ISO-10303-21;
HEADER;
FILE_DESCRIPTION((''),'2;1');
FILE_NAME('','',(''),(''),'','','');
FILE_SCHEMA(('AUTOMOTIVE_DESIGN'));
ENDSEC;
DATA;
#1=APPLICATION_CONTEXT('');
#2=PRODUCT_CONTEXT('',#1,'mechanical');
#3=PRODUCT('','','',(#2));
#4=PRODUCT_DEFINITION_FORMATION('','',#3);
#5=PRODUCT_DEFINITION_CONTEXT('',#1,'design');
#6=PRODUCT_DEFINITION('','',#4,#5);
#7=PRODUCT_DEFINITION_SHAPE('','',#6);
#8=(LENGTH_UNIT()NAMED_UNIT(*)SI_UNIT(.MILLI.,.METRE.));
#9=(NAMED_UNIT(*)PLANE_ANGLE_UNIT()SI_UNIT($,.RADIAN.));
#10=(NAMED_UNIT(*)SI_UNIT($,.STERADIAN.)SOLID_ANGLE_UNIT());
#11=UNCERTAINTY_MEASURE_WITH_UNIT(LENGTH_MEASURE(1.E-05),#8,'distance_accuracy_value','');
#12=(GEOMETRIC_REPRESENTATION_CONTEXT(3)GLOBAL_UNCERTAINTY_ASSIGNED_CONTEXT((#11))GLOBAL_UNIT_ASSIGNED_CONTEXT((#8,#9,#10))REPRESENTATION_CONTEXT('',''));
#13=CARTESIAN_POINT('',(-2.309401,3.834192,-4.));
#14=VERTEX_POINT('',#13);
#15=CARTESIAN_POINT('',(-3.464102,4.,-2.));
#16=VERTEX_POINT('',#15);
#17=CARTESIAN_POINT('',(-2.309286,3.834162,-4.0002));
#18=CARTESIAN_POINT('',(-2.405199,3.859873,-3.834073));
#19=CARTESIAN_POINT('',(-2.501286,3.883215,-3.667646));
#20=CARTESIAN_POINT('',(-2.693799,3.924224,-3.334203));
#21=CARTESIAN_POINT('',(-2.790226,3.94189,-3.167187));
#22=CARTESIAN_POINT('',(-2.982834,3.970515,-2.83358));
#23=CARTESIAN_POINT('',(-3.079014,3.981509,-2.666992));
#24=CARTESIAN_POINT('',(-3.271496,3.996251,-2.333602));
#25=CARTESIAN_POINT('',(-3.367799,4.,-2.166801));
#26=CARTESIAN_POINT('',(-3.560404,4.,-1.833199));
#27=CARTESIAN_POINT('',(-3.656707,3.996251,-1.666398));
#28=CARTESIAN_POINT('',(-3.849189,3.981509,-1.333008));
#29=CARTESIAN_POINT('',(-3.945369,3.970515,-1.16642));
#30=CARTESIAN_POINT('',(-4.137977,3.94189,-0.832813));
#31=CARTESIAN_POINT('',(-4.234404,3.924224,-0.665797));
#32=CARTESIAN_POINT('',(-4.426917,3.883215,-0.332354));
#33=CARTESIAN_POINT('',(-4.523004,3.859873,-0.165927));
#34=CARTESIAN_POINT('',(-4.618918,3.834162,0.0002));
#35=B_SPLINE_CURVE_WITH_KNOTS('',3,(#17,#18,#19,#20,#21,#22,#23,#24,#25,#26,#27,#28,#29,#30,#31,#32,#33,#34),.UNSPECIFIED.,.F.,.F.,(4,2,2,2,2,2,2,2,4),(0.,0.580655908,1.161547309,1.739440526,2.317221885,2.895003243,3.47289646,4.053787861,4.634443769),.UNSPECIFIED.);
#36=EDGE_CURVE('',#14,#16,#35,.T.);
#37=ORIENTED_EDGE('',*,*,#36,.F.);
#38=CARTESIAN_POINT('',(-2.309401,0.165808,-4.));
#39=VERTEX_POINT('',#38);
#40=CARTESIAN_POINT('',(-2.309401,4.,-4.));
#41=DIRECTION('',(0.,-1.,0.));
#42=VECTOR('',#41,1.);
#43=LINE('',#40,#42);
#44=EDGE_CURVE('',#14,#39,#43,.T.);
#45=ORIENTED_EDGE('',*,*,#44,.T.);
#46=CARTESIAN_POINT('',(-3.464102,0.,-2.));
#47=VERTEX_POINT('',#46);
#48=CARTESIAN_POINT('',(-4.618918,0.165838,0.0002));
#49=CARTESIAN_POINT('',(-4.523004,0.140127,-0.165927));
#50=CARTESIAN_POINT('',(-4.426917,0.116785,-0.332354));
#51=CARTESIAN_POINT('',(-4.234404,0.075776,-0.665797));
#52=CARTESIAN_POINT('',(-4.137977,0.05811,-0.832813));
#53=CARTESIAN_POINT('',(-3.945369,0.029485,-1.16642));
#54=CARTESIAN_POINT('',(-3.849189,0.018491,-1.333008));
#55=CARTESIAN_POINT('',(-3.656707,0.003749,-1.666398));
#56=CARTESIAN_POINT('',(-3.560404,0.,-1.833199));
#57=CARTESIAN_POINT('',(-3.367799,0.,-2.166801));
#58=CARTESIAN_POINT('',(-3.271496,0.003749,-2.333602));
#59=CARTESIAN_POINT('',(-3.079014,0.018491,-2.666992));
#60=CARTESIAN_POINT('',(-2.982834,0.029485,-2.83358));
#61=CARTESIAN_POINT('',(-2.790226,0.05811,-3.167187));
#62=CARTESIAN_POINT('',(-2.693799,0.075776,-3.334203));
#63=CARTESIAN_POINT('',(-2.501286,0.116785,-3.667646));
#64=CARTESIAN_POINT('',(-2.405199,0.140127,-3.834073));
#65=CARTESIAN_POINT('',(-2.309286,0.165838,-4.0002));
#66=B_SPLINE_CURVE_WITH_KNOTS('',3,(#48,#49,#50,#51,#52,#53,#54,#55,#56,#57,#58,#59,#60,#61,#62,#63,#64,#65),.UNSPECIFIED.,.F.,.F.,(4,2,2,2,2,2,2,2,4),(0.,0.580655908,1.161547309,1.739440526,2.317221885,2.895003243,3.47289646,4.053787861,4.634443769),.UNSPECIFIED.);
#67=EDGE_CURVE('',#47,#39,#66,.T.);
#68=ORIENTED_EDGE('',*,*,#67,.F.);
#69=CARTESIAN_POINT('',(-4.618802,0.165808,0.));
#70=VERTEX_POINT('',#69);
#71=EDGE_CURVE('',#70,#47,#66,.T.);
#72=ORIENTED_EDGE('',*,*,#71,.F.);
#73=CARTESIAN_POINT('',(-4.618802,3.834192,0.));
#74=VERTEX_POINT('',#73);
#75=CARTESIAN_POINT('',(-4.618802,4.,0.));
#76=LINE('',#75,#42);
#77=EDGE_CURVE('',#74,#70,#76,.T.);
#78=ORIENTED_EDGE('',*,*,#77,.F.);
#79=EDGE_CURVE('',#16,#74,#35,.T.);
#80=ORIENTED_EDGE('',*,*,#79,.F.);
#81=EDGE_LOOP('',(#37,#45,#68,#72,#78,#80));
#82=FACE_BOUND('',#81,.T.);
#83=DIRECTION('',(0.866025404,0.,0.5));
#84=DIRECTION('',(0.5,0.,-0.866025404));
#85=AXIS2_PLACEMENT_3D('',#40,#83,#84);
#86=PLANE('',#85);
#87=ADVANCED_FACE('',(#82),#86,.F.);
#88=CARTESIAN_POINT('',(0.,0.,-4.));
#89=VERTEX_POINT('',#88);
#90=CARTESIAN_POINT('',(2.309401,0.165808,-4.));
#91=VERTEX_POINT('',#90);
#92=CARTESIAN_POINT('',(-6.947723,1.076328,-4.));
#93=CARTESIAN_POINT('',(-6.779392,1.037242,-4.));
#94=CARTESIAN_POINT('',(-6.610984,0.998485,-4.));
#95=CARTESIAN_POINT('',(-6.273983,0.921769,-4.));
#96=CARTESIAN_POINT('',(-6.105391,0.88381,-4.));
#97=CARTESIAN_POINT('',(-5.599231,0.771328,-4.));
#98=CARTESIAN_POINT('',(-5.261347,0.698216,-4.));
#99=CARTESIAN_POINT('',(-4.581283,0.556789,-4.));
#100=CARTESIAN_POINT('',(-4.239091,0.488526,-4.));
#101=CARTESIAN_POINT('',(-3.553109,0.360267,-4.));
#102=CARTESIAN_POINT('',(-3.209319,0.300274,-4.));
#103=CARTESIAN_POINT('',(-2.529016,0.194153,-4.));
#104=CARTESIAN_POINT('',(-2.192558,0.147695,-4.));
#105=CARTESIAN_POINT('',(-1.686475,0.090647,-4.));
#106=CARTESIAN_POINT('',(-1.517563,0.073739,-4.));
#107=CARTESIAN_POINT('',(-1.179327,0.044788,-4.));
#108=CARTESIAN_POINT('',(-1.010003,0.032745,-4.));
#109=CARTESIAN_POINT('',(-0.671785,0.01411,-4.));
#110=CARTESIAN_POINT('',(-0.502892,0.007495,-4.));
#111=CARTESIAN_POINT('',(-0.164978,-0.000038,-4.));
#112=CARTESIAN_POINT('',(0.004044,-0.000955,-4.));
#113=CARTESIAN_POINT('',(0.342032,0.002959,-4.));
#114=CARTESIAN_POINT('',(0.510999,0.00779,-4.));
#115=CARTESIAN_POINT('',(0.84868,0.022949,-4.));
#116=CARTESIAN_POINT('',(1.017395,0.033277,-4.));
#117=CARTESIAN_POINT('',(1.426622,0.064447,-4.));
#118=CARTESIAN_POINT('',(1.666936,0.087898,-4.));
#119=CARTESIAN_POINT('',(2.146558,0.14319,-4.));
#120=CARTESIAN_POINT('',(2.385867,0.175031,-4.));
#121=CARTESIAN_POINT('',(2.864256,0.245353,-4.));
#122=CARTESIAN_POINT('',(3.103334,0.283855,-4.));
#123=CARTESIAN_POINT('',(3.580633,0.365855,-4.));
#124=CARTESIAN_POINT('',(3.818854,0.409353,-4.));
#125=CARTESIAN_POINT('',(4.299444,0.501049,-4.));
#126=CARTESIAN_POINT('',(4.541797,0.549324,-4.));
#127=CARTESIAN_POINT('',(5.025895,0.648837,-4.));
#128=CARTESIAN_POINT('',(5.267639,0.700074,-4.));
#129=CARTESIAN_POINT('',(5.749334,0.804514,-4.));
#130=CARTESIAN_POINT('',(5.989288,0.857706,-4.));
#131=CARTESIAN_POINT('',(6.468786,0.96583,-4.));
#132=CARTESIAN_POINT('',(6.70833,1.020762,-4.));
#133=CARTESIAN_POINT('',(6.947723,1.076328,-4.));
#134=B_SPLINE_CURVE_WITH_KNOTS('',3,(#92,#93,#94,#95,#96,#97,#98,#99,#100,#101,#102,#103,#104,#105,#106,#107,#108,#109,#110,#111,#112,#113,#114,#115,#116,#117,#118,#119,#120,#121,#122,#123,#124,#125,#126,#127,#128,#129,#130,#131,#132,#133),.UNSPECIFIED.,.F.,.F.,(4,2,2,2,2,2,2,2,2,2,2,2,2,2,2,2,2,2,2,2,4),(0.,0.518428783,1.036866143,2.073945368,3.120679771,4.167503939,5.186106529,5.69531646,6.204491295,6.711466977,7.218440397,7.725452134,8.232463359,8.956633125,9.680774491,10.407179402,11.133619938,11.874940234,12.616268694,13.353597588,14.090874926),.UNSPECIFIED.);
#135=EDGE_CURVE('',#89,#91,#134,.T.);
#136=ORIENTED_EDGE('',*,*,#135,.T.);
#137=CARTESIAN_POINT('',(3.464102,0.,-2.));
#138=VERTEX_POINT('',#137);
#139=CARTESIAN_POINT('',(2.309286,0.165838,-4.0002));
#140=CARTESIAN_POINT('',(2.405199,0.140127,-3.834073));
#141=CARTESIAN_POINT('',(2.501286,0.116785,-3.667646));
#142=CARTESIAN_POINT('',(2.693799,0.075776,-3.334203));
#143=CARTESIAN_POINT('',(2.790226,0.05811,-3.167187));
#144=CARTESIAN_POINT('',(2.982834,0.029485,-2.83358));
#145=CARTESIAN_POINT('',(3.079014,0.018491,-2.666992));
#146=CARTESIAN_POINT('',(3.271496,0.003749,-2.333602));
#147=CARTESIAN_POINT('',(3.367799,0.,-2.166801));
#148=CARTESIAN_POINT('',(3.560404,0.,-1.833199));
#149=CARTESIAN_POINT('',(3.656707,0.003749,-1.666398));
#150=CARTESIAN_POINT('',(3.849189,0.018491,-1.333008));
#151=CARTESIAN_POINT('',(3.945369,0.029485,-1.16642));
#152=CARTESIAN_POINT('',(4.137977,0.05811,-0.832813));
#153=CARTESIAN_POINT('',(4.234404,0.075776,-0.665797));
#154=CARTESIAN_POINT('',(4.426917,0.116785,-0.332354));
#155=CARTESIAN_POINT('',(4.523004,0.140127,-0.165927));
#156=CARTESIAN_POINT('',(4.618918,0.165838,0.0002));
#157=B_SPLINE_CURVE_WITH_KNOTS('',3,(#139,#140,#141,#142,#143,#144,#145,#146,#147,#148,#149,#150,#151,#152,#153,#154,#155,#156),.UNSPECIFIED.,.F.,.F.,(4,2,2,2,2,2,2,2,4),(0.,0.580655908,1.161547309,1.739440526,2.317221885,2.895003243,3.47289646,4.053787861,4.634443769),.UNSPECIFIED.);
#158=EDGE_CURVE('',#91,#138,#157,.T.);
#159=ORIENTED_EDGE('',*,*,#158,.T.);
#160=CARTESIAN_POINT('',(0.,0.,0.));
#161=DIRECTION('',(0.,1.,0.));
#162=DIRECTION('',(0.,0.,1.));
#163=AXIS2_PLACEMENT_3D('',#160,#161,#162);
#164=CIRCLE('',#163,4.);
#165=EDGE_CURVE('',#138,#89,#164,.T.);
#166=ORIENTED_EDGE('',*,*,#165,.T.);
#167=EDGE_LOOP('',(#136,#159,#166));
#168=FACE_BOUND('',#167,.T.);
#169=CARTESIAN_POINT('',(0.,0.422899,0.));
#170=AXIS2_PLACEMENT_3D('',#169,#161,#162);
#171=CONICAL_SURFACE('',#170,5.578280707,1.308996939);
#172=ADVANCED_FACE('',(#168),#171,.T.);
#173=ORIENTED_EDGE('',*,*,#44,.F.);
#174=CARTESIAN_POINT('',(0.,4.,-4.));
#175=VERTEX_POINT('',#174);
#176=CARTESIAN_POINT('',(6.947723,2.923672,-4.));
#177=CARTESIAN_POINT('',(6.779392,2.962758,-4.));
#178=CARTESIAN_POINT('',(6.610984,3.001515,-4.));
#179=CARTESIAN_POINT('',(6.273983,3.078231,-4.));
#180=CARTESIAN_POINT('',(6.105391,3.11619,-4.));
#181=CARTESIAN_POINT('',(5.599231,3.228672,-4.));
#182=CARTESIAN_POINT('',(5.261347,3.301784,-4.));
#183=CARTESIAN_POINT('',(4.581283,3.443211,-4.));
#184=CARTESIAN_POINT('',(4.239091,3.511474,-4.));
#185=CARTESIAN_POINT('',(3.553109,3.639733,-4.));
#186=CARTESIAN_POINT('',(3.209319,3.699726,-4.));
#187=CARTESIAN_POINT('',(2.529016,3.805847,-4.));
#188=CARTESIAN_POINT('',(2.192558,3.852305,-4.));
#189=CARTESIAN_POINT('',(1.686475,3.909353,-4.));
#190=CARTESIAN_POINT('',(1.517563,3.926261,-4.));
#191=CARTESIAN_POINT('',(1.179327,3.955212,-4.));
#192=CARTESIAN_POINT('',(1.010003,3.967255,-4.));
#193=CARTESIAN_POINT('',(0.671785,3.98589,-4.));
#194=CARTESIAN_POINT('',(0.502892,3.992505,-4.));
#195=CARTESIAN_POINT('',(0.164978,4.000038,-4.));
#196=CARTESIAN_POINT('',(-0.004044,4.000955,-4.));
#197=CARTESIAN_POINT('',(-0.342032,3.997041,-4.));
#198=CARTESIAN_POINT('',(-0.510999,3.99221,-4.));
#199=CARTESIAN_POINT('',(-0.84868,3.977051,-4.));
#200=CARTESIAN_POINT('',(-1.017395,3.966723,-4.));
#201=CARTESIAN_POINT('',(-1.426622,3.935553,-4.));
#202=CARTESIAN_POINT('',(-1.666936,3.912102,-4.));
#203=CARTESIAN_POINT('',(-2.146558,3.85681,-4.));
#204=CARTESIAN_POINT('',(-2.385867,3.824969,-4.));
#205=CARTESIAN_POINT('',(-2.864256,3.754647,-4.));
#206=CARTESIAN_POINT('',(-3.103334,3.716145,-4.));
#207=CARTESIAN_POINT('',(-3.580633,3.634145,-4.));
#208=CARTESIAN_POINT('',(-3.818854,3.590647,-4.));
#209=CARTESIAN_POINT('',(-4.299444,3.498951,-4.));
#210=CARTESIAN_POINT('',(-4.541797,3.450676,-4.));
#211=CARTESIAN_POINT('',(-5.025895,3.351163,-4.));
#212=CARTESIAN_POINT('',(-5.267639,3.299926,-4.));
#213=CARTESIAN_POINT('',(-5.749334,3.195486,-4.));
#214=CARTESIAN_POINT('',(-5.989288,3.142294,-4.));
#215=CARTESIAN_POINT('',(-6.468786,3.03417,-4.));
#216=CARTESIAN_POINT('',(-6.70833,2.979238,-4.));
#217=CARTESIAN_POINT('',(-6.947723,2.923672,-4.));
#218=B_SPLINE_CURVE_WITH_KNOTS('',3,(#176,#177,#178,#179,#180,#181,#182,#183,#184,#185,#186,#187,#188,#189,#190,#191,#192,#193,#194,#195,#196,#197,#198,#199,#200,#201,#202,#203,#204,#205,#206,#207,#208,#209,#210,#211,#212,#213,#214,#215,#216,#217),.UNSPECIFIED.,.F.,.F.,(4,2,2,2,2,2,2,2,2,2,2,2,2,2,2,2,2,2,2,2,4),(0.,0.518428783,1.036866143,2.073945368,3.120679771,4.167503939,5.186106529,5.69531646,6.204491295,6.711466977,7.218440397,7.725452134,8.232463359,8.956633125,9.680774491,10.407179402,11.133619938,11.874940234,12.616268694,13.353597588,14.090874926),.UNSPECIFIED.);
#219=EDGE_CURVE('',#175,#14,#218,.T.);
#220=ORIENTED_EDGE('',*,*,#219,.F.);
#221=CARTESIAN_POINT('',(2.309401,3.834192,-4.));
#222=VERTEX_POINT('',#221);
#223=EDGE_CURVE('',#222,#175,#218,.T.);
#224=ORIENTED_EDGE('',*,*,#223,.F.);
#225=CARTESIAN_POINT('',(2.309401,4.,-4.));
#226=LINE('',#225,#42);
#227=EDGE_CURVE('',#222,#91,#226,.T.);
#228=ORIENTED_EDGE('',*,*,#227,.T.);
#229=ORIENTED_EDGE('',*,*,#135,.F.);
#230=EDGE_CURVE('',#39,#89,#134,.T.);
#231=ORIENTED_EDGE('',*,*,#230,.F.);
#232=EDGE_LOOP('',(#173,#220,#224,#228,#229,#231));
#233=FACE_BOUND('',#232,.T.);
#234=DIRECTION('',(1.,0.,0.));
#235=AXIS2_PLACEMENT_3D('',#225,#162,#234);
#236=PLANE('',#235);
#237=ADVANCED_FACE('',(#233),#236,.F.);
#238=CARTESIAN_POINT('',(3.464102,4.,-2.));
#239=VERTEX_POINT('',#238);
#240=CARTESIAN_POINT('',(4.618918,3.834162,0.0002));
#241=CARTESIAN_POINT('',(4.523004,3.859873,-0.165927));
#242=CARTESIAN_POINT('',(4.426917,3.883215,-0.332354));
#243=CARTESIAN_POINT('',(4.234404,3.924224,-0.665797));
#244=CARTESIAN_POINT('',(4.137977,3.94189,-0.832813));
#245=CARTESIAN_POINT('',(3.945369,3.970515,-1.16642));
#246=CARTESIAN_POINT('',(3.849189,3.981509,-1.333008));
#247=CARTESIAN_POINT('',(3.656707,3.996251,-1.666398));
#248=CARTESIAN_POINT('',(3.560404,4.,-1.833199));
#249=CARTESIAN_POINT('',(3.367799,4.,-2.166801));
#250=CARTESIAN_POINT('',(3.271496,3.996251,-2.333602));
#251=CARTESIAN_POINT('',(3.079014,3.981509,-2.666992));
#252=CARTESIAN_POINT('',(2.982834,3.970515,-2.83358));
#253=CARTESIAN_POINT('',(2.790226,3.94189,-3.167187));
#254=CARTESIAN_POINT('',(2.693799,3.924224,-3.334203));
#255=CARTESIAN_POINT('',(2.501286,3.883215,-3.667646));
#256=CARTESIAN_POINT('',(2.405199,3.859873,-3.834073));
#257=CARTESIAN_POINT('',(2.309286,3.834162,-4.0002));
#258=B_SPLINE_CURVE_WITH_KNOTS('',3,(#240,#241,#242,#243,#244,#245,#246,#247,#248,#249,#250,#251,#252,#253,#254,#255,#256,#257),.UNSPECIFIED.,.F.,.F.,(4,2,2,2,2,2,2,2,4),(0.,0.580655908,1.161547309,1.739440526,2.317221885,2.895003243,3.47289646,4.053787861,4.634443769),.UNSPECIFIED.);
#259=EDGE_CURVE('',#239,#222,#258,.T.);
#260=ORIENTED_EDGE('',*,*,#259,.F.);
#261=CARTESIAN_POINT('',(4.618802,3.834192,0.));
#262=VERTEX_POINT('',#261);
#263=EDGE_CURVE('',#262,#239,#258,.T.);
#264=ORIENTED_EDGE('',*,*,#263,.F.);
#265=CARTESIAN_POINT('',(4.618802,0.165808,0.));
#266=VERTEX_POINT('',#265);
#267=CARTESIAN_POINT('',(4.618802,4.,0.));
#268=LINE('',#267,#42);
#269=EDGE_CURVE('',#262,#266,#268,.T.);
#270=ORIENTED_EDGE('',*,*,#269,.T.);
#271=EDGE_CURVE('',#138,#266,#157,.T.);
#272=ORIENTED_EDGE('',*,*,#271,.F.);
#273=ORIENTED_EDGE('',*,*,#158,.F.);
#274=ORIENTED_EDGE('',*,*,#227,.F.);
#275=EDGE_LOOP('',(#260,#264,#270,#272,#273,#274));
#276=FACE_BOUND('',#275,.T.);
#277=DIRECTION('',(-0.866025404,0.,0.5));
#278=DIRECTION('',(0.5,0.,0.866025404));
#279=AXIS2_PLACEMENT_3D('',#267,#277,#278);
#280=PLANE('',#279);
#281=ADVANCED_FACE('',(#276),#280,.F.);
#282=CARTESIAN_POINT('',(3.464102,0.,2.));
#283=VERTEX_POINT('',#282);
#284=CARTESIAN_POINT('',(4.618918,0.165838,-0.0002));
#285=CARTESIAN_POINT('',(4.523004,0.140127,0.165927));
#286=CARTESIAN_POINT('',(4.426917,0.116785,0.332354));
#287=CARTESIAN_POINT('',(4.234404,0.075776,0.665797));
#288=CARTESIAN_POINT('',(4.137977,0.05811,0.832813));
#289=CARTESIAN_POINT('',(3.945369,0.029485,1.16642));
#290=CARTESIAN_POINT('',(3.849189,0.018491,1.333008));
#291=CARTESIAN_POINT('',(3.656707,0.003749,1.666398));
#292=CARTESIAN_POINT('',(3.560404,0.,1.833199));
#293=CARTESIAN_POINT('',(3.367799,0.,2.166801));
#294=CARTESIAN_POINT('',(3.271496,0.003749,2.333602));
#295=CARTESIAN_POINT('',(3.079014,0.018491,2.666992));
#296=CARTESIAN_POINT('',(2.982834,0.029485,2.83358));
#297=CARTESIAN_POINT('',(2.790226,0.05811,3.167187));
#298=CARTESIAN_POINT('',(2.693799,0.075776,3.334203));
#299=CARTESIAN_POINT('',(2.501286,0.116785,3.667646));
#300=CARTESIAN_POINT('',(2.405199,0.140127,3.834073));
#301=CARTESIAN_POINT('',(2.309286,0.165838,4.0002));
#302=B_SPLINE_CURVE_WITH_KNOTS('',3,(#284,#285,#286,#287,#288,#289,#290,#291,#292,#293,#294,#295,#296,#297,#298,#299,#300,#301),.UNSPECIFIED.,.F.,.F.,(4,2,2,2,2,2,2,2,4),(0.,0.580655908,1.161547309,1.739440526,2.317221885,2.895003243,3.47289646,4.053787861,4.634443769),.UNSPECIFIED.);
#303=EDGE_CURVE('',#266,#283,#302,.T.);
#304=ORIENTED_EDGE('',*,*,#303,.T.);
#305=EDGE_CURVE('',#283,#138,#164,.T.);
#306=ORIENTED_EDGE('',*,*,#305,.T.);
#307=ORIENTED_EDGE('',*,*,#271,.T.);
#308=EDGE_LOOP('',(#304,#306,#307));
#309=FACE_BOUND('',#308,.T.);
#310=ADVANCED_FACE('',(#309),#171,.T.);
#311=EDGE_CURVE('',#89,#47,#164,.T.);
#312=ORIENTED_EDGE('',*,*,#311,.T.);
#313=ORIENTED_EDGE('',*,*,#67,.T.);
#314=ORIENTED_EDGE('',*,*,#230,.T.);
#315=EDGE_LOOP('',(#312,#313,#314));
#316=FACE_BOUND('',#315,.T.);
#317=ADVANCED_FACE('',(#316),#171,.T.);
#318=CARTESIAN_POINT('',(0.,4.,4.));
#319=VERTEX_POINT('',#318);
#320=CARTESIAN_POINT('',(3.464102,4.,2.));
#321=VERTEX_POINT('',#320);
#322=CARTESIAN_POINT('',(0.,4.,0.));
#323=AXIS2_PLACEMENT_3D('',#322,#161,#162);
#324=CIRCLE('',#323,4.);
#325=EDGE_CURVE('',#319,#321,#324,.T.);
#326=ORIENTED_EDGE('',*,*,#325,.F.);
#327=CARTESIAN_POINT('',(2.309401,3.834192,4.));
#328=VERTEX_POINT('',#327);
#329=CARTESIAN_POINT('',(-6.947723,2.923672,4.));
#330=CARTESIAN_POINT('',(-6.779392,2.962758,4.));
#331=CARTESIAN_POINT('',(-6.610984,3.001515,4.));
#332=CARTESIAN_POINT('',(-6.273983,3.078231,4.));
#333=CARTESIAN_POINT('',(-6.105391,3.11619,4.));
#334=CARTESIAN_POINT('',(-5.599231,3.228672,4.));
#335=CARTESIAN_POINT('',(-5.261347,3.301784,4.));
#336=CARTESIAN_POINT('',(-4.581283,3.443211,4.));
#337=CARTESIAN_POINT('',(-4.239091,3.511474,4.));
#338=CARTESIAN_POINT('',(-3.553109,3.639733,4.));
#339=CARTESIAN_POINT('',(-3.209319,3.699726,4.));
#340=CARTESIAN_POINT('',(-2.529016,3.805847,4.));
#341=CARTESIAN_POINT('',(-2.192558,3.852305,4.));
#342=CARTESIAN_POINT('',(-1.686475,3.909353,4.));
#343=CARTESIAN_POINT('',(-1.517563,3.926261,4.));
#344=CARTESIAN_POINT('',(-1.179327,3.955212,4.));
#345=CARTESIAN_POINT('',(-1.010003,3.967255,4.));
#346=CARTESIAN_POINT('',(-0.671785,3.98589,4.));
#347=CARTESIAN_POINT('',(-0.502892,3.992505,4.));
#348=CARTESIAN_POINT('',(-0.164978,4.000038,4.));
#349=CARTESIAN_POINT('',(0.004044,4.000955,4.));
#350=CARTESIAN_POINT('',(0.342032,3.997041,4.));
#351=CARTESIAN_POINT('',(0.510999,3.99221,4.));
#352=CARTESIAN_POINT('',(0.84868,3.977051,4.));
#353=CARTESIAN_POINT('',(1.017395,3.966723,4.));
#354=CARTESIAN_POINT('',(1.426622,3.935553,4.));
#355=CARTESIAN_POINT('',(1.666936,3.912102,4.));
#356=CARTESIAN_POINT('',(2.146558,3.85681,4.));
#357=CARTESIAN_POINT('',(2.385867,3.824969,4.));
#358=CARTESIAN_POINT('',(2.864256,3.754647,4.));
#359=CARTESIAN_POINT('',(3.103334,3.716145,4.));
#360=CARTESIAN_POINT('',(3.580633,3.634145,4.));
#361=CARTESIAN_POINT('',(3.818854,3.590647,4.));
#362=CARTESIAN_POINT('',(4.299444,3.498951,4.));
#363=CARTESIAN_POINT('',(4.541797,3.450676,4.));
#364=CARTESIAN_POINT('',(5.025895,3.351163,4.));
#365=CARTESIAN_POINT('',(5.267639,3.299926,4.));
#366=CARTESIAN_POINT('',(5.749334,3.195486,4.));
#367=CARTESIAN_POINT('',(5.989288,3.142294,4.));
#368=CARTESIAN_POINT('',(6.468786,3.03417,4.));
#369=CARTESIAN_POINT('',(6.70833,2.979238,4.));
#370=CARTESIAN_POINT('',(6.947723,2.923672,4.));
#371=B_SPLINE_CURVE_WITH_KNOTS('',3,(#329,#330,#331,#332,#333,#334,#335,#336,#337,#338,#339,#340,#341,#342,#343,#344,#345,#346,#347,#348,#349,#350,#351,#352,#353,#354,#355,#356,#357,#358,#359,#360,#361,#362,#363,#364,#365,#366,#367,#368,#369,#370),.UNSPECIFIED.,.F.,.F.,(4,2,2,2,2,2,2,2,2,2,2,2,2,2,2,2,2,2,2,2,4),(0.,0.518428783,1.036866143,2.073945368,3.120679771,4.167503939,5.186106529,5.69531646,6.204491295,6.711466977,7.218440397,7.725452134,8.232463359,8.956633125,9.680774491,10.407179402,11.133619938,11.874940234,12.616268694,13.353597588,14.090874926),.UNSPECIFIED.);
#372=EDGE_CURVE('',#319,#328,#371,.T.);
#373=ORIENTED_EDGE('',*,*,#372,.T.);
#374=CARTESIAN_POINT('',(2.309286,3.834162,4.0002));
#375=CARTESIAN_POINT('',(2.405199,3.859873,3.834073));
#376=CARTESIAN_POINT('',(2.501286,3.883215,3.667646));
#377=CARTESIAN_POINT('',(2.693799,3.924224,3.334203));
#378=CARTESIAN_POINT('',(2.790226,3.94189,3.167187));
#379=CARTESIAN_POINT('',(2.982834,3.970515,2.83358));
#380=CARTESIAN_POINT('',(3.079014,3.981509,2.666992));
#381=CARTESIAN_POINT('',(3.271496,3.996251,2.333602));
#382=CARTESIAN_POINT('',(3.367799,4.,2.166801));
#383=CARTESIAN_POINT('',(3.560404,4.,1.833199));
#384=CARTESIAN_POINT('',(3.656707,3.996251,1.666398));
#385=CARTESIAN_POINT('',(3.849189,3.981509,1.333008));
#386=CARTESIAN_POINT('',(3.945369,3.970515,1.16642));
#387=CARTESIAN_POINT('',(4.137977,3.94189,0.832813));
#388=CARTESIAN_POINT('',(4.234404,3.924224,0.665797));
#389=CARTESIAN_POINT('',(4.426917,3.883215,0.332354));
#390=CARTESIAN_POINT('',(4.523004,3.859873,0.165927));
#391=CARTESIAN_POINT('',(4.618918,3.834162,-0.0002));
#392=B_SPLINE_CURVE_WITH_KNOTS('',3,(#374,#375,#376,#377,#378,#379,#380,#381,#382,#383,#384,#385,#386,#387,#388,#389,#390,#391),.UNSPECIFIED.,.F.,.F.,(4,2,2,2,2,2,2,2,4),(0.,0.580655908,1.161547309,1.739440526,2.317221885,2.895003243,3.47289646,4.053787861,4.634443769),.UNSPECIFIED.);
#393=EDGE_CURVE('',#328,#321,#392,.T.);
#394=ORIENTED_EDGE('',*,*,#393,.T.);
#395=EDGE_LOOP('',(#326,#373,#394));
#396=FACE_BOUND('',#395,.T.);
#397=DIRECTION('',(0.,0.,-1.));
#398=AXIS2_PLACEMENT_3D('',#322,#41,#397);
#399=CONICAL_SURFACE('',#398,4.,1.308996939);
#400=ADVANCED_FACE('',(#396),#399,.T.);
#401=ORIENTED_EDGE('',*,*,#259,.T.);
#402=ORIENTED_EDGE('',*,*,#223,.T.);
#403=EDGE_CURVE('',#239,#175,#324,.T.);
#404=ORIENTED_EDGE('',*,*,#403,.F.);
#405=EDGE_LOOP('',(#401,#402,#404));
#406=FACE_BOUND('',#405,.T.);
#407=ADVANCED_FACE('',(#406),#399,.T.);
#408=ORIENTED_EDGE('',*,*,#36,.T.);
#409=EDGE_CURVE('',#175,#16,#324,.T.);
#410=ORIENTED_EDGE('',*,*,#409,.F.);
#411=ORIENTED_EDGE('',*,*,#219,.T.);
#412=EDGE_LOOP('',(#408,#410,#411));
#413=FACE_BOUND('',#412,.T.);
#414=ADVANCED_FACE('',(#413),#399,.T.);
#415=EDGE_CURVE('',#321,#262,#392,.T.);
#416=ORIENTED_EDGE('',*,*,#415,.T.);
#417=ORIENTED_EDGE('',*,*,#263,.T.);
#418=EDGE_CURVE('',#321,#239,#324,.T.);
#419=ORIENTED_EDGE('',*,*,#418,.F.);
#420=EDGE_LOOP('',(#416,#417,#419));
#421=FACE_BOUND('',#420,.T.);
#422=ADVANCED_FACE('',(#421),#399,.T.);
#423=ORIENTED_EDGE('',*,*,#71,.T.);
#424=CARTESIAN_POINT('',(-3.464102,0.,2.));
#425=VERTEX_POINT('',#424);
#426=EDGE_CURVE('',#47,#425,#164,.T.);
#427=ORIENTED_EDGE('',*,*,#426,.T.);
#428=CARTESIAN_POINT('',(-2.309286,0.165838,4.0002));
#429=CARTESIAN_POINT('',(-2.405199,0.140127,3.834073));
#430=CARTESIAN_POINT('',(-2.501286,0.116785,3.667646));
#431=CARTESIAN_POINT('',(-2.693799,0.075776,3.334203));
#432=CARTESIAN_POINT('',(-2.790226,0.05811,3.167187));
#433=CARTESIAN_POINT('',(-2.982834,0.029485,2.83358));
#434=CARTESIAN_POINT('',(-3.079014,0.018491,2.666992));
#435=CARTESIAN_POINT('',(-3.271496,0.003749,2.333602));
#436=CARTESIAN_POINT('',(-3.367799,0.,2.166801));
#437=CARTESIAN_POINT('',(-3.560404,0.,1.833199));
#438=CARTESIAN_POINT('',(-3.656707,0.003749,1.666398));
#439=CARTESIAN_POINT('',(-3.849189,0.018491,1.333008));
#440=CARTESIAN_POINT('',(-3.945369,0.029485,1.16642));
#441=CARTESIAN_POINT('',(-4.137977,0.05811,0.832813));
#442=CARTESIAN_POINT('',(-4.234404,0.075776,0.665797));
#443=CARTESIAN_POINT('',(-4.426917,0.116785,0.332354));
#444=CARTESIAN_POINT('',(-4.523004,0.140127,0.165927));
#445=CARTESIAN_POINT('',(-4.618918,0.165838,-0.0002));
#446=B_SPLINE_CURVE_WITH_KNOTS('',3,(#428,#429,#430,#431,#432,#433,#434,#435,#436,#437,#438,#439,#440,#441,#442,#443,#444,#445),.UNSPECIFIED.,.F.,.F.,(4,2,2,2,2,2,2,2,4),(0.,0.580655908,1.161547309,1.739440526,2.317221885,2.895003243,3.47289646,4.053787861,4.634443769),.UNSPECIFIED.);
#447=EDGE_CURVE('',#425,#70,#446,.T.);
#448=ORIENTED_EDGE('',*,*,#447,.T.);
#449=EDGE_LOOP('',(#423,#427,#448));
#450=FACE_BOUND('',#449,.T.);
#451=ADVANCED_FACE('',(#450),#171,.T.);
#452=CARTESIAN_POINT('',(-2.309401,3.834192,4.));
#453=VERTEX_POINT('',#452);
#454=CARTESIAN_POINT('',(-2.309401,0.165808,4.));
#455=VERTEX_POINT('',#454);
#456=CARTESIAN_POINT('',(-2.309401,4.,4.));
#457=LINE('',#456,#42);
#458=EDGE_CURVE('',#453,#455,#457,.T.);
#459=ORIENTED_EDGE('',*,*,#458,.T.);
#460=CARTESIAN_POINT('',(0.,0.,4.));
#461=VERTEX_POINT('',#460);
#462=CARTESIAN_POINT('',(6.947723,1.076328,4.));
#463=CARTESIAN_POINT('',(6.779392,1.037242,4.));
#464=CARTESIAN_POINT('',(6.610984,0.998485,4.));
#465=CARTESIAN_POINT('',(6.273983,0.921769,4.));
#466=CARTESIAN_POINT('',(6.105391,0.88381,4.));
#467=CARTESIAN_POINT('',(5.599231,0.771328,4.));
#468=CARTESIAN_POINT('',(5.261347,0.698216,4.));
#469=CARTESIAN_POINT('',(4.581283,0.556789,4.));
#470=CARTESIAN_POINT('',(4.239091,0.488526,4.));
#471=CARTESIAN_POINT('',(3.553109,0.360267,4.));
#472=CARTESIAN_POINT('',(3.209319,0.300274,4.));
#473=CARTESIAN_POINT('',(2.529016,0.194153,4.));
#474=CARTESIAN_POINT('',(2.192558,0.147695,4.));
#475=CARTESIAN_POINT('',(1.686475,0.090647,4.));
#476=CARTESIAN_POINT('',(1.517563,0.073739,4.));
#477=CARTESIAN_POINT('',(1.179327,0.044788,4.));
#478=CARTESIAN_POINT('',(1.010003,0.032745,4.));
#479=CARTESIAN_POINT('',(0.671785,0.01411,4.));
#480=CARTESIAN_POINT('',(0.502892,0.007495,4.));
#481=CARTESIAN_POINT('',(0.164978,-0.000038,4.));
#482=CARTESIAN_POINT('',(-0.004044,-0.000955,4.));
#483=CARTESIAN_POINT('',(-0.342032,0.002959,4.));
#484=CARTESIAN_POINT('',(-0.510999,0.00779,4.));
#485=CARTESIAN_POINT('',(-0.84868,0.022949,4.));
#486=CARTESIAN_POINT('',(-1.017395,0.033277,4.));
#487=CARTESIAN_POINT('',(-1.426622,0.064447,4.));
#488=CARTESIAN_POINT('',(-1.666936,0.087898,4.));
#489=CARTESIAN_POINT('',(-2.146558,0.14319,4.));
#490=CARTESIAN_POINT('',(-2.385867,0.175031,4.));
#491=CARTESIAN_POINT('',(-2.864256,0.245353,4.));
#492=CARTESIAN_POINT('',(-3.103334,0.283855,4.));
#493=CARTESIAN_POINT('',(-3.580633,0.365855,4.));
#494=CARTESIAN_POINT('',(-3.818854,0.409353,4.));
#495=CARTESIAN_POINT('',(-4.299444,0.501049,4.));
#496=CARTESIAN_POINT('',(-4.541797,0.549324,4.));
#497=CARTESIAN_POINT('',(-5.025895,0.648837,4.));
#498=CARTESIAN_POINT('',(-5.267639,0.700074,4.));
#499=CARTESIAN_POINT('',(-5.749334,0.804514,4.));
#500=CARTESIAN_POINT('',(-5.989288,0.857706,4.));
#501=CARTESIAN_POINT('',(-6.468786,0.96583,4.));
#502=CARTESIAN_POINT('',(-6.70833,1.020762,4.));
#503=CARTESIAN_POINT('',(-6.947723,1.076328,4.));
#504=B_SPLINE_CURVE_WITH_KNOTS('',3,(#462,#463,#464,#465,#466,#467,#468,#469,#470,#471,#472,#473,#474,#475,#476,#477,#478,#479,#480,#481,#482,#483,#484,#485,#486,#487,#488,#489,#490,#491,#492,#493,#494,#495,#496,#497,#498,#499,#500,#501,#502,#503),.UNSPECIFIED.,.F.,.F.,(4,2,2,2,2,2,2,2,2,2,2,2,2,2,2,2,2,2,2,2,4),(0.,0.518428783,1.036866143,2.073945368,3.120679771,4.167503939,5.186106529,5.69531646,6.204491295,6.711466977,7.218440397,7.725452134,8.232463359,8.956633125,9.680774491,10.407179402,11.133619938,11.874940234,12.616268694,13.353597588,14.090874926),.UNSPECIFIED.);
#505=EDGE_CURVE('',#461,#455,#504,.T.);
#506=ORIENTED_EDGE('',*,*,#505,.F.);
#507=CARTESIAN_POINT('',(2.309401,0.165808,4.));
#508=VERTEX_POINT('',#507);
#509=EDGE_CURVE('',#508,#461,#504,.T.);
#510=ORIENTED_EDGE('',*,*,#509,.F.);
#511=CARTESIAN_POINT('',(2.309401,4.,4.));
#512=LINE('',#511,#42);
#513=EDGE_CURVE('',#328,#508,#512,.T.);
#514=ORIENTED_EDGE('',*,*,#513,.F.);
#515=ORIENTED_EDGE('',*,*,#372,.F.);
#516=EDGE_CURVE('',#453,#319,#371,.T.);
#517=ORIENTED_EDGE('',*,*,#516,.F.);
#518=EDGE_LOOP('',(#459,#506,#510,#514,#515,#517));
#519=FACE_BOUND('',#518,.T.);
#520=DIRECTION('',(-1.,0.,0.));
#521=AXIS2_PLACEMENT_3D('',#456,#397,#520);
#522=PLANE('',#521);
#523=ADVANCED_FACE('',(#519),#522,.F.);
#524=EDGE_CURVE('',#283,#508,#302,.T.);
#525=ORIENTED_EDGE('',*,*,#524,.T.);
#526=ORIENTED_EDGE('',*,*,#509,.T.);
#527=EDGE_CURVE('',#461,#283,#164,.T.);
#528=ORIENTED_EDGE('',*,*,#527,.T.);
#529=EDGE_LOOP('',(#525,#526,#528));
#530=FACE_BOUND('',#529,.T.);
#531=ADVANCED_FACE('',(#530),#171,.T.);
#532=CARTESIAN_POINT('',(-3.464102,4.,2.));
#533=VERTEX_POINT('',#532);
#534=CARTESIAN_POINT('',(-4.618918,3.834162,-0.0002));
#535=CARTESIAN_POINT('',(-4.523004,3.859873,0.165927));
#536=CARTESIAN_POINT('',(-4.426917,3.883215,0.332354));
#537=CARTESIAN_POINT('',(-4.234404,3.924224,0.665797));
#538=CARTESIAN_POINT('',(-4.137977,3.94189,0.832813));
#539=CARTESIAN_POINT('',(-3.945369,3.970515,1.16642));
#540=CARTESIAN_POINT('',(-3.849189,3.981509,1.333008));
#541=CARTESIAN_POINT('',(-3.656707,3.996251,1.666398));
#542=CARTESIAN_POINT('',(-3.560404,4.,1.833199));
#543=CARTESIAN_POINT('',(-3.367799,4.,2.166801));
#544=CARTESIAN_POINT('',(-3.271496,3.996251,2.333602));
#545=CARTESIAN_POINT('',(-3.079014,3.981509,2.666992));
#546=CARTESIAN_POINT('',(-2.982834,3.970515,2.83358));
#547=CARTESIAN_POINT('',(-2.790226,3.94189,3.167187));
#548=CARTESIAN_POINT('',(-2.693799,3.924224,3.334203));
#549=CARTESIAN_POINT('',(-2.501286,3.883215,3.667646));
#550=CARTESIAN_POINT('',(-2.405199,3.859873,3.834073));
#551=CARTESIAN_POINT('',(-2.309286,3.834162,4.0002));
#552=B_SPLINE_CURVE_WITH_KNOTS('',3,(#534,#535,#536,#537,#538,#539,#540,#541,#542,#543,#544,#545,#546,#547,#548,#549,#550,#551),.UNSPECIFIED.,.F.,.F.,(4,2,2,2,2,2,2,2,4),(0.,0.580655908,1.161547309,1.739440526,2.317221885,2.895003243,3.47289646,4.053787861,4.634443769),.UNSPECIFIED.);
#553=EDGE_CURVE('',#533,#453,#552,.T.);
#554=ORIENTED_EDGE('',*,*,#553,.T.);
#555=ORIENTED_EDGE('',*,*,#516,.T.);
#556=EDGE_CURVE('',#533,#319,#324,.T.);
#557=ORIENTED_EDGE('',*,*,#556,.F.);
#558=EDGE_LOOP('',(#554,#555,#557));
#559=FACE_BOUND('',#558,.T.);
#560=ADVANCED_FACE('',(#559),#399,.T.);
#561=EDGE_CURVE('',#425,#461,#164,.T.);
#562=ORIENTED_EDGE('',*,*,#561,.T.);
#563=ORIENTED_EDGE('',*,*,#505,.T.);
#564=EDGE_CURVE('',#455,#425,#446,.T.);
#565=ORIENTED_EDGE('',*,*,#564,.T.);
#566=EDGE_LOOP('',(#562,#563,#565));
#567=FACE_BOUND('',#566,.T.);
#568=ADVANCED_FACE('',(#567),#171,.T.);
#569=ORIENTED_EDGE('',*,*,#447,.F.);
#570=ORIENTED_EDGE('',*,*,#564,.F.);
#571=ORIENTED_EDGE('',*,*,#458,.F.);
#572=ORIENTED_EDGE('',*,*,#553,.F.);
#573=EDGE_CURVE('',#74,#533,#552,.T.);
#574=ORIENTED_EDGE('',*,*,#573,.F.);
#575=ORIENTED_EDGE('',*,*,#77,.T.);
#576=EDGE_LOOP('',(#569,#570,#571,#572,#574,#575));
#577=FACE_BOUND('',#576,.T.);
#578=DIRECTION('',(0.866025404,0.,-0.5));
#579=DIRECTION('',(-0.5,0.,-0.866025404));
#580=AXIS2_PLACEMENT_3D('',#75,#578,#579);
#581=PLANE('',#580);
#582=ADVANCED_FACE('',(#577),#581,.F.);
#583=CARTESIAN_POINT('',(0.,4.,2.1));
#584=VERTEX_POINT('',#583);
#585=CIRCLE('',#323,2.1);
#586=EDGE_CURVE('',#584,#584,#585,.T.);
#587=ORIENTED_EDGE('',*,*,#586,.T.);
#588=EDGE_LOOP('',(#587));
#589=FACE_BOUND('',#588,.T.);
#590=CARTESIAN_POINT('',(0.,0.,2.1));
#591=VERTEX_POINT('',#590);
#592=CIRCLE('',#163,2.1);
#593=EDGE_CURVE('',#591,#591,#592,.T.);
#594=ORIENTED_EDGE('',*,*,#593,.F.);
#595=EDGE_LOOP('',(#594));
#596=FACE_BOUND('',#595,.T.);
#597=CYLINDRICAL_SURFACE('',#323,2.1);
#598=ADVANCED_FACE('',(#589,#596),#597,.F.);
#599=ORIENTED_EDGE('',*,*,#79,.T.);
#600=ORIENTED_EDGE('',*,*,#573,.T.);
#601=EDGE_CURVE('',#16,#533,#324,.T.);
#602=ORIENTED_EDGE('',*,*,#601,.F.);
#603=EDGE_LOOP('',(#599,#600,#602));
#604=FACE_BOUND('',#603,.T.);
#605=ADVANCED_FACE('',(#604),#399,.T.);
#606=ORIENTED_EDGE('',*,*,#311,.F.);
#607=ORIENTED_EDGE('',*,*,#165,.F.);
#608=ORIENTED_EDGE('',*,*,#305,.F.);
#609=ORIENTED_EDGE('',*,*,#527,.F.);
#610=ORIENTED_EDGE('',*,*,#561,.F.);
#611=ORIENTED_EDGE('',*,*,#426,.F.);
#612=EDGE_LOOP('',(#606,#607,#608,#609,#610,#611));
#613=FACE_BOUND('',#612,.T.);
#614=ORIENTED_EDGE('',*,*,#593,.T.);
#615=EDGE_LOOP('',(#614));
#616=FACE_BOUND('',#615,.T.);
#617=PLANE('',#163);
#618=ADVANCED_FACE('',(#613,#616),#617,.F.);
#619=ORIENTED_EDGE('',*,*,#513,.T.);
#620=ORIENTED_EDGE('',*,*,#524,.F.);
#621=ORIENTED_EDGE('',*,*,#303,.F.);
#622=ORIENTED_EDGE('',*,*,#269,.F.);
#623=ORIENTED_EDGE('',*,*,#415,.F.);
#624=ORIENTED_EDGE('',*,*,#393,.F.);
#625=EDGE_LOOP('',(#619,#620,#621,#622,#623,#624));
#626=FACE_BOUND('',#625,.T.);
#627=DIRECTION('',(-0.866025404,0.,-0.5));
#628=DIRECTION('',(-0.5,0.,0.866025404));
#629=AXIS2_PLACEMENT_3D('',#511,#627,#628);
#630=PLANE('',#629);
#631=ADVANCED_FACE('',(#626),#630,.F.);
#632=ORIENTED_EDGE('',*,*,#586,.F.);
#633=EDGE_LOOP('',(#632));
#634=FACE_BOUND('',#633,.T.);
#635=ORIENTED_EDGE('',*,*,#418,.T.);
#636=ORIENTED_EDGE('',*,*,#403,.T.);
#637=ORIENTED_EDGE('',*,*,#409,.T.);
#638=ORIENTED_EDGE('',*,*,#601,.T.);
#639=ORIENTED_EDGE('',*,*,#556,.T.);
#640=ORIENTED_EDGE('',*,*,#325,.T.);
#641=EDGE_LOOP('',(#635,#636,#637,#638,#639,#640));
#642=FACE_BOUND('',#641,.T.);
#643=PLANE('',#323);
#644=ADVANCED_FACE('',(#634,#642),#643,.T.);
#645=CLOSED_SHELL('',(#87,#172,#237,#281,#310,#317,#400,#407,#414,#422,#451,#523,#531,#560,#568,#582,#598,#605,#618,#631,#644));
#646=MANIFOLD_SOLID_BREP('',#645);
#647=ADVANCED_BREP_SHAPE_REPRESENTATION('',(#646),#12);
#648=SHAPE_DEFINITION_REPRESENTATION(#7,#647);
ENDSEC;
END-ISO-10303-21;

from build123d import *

# Parameters (mm, degrees)
EXTRUDE_1_DEPTH    = 4
HOLE_WIZARD_M5_1_D = 4.2


with BuildPart() as part:
    # 草图1 → 凸台-拉伸1 (new body)
    with BuildSketch(Plane(origin=(0, 0, 0), x_dir=(1, 0, 0), z_dir=(0, 1, 0))):
        Polygon((4.618802154, 0), (2.309401077, 4), (-2.309401077, 4), (-4.618802154, 0), (-2.309401077, -4), (2.309401077, -4), align=None)
    extrude(amount=EXTRUDE_1_DEPTH)

    # M5 螺纹孔1 (through all)
    with Locations(Plane(origin=(0, 4, 0), x_dir=(1, 0, 0), z_dir=(0, 1, 0))):
        with Locations((0, 0)):
            Hole(HOLE_WIZARD_M5_1_D / 2)

    # 草图4 → 切除-旋转1 (revolve, cut)
    with BuildSketch(Plane(origin=(0, 0, 0), x_dir=(0, 0, -1), z_dir=(1, 0, 0)), mode=Mode.PRIVATE) as cut_revolve_1_sk:
        Polygon((4, 4), (5.578280707, 3.577100959), (4.847725581, 6.644234984), align=None)
        Polygon((4.847725581, -2.644234984), (4, 0), (5.578280707, 0.422899041), align=None)
    revolve(cut_revolve_1_sk.sketch.rotate(Axis((0, 0, 0), (0, -1, 0)), 180), axis=Axis((0, 0, 0), (0, -1, 0)), mode=Mode.SUBTRACT)


solid = part.part
